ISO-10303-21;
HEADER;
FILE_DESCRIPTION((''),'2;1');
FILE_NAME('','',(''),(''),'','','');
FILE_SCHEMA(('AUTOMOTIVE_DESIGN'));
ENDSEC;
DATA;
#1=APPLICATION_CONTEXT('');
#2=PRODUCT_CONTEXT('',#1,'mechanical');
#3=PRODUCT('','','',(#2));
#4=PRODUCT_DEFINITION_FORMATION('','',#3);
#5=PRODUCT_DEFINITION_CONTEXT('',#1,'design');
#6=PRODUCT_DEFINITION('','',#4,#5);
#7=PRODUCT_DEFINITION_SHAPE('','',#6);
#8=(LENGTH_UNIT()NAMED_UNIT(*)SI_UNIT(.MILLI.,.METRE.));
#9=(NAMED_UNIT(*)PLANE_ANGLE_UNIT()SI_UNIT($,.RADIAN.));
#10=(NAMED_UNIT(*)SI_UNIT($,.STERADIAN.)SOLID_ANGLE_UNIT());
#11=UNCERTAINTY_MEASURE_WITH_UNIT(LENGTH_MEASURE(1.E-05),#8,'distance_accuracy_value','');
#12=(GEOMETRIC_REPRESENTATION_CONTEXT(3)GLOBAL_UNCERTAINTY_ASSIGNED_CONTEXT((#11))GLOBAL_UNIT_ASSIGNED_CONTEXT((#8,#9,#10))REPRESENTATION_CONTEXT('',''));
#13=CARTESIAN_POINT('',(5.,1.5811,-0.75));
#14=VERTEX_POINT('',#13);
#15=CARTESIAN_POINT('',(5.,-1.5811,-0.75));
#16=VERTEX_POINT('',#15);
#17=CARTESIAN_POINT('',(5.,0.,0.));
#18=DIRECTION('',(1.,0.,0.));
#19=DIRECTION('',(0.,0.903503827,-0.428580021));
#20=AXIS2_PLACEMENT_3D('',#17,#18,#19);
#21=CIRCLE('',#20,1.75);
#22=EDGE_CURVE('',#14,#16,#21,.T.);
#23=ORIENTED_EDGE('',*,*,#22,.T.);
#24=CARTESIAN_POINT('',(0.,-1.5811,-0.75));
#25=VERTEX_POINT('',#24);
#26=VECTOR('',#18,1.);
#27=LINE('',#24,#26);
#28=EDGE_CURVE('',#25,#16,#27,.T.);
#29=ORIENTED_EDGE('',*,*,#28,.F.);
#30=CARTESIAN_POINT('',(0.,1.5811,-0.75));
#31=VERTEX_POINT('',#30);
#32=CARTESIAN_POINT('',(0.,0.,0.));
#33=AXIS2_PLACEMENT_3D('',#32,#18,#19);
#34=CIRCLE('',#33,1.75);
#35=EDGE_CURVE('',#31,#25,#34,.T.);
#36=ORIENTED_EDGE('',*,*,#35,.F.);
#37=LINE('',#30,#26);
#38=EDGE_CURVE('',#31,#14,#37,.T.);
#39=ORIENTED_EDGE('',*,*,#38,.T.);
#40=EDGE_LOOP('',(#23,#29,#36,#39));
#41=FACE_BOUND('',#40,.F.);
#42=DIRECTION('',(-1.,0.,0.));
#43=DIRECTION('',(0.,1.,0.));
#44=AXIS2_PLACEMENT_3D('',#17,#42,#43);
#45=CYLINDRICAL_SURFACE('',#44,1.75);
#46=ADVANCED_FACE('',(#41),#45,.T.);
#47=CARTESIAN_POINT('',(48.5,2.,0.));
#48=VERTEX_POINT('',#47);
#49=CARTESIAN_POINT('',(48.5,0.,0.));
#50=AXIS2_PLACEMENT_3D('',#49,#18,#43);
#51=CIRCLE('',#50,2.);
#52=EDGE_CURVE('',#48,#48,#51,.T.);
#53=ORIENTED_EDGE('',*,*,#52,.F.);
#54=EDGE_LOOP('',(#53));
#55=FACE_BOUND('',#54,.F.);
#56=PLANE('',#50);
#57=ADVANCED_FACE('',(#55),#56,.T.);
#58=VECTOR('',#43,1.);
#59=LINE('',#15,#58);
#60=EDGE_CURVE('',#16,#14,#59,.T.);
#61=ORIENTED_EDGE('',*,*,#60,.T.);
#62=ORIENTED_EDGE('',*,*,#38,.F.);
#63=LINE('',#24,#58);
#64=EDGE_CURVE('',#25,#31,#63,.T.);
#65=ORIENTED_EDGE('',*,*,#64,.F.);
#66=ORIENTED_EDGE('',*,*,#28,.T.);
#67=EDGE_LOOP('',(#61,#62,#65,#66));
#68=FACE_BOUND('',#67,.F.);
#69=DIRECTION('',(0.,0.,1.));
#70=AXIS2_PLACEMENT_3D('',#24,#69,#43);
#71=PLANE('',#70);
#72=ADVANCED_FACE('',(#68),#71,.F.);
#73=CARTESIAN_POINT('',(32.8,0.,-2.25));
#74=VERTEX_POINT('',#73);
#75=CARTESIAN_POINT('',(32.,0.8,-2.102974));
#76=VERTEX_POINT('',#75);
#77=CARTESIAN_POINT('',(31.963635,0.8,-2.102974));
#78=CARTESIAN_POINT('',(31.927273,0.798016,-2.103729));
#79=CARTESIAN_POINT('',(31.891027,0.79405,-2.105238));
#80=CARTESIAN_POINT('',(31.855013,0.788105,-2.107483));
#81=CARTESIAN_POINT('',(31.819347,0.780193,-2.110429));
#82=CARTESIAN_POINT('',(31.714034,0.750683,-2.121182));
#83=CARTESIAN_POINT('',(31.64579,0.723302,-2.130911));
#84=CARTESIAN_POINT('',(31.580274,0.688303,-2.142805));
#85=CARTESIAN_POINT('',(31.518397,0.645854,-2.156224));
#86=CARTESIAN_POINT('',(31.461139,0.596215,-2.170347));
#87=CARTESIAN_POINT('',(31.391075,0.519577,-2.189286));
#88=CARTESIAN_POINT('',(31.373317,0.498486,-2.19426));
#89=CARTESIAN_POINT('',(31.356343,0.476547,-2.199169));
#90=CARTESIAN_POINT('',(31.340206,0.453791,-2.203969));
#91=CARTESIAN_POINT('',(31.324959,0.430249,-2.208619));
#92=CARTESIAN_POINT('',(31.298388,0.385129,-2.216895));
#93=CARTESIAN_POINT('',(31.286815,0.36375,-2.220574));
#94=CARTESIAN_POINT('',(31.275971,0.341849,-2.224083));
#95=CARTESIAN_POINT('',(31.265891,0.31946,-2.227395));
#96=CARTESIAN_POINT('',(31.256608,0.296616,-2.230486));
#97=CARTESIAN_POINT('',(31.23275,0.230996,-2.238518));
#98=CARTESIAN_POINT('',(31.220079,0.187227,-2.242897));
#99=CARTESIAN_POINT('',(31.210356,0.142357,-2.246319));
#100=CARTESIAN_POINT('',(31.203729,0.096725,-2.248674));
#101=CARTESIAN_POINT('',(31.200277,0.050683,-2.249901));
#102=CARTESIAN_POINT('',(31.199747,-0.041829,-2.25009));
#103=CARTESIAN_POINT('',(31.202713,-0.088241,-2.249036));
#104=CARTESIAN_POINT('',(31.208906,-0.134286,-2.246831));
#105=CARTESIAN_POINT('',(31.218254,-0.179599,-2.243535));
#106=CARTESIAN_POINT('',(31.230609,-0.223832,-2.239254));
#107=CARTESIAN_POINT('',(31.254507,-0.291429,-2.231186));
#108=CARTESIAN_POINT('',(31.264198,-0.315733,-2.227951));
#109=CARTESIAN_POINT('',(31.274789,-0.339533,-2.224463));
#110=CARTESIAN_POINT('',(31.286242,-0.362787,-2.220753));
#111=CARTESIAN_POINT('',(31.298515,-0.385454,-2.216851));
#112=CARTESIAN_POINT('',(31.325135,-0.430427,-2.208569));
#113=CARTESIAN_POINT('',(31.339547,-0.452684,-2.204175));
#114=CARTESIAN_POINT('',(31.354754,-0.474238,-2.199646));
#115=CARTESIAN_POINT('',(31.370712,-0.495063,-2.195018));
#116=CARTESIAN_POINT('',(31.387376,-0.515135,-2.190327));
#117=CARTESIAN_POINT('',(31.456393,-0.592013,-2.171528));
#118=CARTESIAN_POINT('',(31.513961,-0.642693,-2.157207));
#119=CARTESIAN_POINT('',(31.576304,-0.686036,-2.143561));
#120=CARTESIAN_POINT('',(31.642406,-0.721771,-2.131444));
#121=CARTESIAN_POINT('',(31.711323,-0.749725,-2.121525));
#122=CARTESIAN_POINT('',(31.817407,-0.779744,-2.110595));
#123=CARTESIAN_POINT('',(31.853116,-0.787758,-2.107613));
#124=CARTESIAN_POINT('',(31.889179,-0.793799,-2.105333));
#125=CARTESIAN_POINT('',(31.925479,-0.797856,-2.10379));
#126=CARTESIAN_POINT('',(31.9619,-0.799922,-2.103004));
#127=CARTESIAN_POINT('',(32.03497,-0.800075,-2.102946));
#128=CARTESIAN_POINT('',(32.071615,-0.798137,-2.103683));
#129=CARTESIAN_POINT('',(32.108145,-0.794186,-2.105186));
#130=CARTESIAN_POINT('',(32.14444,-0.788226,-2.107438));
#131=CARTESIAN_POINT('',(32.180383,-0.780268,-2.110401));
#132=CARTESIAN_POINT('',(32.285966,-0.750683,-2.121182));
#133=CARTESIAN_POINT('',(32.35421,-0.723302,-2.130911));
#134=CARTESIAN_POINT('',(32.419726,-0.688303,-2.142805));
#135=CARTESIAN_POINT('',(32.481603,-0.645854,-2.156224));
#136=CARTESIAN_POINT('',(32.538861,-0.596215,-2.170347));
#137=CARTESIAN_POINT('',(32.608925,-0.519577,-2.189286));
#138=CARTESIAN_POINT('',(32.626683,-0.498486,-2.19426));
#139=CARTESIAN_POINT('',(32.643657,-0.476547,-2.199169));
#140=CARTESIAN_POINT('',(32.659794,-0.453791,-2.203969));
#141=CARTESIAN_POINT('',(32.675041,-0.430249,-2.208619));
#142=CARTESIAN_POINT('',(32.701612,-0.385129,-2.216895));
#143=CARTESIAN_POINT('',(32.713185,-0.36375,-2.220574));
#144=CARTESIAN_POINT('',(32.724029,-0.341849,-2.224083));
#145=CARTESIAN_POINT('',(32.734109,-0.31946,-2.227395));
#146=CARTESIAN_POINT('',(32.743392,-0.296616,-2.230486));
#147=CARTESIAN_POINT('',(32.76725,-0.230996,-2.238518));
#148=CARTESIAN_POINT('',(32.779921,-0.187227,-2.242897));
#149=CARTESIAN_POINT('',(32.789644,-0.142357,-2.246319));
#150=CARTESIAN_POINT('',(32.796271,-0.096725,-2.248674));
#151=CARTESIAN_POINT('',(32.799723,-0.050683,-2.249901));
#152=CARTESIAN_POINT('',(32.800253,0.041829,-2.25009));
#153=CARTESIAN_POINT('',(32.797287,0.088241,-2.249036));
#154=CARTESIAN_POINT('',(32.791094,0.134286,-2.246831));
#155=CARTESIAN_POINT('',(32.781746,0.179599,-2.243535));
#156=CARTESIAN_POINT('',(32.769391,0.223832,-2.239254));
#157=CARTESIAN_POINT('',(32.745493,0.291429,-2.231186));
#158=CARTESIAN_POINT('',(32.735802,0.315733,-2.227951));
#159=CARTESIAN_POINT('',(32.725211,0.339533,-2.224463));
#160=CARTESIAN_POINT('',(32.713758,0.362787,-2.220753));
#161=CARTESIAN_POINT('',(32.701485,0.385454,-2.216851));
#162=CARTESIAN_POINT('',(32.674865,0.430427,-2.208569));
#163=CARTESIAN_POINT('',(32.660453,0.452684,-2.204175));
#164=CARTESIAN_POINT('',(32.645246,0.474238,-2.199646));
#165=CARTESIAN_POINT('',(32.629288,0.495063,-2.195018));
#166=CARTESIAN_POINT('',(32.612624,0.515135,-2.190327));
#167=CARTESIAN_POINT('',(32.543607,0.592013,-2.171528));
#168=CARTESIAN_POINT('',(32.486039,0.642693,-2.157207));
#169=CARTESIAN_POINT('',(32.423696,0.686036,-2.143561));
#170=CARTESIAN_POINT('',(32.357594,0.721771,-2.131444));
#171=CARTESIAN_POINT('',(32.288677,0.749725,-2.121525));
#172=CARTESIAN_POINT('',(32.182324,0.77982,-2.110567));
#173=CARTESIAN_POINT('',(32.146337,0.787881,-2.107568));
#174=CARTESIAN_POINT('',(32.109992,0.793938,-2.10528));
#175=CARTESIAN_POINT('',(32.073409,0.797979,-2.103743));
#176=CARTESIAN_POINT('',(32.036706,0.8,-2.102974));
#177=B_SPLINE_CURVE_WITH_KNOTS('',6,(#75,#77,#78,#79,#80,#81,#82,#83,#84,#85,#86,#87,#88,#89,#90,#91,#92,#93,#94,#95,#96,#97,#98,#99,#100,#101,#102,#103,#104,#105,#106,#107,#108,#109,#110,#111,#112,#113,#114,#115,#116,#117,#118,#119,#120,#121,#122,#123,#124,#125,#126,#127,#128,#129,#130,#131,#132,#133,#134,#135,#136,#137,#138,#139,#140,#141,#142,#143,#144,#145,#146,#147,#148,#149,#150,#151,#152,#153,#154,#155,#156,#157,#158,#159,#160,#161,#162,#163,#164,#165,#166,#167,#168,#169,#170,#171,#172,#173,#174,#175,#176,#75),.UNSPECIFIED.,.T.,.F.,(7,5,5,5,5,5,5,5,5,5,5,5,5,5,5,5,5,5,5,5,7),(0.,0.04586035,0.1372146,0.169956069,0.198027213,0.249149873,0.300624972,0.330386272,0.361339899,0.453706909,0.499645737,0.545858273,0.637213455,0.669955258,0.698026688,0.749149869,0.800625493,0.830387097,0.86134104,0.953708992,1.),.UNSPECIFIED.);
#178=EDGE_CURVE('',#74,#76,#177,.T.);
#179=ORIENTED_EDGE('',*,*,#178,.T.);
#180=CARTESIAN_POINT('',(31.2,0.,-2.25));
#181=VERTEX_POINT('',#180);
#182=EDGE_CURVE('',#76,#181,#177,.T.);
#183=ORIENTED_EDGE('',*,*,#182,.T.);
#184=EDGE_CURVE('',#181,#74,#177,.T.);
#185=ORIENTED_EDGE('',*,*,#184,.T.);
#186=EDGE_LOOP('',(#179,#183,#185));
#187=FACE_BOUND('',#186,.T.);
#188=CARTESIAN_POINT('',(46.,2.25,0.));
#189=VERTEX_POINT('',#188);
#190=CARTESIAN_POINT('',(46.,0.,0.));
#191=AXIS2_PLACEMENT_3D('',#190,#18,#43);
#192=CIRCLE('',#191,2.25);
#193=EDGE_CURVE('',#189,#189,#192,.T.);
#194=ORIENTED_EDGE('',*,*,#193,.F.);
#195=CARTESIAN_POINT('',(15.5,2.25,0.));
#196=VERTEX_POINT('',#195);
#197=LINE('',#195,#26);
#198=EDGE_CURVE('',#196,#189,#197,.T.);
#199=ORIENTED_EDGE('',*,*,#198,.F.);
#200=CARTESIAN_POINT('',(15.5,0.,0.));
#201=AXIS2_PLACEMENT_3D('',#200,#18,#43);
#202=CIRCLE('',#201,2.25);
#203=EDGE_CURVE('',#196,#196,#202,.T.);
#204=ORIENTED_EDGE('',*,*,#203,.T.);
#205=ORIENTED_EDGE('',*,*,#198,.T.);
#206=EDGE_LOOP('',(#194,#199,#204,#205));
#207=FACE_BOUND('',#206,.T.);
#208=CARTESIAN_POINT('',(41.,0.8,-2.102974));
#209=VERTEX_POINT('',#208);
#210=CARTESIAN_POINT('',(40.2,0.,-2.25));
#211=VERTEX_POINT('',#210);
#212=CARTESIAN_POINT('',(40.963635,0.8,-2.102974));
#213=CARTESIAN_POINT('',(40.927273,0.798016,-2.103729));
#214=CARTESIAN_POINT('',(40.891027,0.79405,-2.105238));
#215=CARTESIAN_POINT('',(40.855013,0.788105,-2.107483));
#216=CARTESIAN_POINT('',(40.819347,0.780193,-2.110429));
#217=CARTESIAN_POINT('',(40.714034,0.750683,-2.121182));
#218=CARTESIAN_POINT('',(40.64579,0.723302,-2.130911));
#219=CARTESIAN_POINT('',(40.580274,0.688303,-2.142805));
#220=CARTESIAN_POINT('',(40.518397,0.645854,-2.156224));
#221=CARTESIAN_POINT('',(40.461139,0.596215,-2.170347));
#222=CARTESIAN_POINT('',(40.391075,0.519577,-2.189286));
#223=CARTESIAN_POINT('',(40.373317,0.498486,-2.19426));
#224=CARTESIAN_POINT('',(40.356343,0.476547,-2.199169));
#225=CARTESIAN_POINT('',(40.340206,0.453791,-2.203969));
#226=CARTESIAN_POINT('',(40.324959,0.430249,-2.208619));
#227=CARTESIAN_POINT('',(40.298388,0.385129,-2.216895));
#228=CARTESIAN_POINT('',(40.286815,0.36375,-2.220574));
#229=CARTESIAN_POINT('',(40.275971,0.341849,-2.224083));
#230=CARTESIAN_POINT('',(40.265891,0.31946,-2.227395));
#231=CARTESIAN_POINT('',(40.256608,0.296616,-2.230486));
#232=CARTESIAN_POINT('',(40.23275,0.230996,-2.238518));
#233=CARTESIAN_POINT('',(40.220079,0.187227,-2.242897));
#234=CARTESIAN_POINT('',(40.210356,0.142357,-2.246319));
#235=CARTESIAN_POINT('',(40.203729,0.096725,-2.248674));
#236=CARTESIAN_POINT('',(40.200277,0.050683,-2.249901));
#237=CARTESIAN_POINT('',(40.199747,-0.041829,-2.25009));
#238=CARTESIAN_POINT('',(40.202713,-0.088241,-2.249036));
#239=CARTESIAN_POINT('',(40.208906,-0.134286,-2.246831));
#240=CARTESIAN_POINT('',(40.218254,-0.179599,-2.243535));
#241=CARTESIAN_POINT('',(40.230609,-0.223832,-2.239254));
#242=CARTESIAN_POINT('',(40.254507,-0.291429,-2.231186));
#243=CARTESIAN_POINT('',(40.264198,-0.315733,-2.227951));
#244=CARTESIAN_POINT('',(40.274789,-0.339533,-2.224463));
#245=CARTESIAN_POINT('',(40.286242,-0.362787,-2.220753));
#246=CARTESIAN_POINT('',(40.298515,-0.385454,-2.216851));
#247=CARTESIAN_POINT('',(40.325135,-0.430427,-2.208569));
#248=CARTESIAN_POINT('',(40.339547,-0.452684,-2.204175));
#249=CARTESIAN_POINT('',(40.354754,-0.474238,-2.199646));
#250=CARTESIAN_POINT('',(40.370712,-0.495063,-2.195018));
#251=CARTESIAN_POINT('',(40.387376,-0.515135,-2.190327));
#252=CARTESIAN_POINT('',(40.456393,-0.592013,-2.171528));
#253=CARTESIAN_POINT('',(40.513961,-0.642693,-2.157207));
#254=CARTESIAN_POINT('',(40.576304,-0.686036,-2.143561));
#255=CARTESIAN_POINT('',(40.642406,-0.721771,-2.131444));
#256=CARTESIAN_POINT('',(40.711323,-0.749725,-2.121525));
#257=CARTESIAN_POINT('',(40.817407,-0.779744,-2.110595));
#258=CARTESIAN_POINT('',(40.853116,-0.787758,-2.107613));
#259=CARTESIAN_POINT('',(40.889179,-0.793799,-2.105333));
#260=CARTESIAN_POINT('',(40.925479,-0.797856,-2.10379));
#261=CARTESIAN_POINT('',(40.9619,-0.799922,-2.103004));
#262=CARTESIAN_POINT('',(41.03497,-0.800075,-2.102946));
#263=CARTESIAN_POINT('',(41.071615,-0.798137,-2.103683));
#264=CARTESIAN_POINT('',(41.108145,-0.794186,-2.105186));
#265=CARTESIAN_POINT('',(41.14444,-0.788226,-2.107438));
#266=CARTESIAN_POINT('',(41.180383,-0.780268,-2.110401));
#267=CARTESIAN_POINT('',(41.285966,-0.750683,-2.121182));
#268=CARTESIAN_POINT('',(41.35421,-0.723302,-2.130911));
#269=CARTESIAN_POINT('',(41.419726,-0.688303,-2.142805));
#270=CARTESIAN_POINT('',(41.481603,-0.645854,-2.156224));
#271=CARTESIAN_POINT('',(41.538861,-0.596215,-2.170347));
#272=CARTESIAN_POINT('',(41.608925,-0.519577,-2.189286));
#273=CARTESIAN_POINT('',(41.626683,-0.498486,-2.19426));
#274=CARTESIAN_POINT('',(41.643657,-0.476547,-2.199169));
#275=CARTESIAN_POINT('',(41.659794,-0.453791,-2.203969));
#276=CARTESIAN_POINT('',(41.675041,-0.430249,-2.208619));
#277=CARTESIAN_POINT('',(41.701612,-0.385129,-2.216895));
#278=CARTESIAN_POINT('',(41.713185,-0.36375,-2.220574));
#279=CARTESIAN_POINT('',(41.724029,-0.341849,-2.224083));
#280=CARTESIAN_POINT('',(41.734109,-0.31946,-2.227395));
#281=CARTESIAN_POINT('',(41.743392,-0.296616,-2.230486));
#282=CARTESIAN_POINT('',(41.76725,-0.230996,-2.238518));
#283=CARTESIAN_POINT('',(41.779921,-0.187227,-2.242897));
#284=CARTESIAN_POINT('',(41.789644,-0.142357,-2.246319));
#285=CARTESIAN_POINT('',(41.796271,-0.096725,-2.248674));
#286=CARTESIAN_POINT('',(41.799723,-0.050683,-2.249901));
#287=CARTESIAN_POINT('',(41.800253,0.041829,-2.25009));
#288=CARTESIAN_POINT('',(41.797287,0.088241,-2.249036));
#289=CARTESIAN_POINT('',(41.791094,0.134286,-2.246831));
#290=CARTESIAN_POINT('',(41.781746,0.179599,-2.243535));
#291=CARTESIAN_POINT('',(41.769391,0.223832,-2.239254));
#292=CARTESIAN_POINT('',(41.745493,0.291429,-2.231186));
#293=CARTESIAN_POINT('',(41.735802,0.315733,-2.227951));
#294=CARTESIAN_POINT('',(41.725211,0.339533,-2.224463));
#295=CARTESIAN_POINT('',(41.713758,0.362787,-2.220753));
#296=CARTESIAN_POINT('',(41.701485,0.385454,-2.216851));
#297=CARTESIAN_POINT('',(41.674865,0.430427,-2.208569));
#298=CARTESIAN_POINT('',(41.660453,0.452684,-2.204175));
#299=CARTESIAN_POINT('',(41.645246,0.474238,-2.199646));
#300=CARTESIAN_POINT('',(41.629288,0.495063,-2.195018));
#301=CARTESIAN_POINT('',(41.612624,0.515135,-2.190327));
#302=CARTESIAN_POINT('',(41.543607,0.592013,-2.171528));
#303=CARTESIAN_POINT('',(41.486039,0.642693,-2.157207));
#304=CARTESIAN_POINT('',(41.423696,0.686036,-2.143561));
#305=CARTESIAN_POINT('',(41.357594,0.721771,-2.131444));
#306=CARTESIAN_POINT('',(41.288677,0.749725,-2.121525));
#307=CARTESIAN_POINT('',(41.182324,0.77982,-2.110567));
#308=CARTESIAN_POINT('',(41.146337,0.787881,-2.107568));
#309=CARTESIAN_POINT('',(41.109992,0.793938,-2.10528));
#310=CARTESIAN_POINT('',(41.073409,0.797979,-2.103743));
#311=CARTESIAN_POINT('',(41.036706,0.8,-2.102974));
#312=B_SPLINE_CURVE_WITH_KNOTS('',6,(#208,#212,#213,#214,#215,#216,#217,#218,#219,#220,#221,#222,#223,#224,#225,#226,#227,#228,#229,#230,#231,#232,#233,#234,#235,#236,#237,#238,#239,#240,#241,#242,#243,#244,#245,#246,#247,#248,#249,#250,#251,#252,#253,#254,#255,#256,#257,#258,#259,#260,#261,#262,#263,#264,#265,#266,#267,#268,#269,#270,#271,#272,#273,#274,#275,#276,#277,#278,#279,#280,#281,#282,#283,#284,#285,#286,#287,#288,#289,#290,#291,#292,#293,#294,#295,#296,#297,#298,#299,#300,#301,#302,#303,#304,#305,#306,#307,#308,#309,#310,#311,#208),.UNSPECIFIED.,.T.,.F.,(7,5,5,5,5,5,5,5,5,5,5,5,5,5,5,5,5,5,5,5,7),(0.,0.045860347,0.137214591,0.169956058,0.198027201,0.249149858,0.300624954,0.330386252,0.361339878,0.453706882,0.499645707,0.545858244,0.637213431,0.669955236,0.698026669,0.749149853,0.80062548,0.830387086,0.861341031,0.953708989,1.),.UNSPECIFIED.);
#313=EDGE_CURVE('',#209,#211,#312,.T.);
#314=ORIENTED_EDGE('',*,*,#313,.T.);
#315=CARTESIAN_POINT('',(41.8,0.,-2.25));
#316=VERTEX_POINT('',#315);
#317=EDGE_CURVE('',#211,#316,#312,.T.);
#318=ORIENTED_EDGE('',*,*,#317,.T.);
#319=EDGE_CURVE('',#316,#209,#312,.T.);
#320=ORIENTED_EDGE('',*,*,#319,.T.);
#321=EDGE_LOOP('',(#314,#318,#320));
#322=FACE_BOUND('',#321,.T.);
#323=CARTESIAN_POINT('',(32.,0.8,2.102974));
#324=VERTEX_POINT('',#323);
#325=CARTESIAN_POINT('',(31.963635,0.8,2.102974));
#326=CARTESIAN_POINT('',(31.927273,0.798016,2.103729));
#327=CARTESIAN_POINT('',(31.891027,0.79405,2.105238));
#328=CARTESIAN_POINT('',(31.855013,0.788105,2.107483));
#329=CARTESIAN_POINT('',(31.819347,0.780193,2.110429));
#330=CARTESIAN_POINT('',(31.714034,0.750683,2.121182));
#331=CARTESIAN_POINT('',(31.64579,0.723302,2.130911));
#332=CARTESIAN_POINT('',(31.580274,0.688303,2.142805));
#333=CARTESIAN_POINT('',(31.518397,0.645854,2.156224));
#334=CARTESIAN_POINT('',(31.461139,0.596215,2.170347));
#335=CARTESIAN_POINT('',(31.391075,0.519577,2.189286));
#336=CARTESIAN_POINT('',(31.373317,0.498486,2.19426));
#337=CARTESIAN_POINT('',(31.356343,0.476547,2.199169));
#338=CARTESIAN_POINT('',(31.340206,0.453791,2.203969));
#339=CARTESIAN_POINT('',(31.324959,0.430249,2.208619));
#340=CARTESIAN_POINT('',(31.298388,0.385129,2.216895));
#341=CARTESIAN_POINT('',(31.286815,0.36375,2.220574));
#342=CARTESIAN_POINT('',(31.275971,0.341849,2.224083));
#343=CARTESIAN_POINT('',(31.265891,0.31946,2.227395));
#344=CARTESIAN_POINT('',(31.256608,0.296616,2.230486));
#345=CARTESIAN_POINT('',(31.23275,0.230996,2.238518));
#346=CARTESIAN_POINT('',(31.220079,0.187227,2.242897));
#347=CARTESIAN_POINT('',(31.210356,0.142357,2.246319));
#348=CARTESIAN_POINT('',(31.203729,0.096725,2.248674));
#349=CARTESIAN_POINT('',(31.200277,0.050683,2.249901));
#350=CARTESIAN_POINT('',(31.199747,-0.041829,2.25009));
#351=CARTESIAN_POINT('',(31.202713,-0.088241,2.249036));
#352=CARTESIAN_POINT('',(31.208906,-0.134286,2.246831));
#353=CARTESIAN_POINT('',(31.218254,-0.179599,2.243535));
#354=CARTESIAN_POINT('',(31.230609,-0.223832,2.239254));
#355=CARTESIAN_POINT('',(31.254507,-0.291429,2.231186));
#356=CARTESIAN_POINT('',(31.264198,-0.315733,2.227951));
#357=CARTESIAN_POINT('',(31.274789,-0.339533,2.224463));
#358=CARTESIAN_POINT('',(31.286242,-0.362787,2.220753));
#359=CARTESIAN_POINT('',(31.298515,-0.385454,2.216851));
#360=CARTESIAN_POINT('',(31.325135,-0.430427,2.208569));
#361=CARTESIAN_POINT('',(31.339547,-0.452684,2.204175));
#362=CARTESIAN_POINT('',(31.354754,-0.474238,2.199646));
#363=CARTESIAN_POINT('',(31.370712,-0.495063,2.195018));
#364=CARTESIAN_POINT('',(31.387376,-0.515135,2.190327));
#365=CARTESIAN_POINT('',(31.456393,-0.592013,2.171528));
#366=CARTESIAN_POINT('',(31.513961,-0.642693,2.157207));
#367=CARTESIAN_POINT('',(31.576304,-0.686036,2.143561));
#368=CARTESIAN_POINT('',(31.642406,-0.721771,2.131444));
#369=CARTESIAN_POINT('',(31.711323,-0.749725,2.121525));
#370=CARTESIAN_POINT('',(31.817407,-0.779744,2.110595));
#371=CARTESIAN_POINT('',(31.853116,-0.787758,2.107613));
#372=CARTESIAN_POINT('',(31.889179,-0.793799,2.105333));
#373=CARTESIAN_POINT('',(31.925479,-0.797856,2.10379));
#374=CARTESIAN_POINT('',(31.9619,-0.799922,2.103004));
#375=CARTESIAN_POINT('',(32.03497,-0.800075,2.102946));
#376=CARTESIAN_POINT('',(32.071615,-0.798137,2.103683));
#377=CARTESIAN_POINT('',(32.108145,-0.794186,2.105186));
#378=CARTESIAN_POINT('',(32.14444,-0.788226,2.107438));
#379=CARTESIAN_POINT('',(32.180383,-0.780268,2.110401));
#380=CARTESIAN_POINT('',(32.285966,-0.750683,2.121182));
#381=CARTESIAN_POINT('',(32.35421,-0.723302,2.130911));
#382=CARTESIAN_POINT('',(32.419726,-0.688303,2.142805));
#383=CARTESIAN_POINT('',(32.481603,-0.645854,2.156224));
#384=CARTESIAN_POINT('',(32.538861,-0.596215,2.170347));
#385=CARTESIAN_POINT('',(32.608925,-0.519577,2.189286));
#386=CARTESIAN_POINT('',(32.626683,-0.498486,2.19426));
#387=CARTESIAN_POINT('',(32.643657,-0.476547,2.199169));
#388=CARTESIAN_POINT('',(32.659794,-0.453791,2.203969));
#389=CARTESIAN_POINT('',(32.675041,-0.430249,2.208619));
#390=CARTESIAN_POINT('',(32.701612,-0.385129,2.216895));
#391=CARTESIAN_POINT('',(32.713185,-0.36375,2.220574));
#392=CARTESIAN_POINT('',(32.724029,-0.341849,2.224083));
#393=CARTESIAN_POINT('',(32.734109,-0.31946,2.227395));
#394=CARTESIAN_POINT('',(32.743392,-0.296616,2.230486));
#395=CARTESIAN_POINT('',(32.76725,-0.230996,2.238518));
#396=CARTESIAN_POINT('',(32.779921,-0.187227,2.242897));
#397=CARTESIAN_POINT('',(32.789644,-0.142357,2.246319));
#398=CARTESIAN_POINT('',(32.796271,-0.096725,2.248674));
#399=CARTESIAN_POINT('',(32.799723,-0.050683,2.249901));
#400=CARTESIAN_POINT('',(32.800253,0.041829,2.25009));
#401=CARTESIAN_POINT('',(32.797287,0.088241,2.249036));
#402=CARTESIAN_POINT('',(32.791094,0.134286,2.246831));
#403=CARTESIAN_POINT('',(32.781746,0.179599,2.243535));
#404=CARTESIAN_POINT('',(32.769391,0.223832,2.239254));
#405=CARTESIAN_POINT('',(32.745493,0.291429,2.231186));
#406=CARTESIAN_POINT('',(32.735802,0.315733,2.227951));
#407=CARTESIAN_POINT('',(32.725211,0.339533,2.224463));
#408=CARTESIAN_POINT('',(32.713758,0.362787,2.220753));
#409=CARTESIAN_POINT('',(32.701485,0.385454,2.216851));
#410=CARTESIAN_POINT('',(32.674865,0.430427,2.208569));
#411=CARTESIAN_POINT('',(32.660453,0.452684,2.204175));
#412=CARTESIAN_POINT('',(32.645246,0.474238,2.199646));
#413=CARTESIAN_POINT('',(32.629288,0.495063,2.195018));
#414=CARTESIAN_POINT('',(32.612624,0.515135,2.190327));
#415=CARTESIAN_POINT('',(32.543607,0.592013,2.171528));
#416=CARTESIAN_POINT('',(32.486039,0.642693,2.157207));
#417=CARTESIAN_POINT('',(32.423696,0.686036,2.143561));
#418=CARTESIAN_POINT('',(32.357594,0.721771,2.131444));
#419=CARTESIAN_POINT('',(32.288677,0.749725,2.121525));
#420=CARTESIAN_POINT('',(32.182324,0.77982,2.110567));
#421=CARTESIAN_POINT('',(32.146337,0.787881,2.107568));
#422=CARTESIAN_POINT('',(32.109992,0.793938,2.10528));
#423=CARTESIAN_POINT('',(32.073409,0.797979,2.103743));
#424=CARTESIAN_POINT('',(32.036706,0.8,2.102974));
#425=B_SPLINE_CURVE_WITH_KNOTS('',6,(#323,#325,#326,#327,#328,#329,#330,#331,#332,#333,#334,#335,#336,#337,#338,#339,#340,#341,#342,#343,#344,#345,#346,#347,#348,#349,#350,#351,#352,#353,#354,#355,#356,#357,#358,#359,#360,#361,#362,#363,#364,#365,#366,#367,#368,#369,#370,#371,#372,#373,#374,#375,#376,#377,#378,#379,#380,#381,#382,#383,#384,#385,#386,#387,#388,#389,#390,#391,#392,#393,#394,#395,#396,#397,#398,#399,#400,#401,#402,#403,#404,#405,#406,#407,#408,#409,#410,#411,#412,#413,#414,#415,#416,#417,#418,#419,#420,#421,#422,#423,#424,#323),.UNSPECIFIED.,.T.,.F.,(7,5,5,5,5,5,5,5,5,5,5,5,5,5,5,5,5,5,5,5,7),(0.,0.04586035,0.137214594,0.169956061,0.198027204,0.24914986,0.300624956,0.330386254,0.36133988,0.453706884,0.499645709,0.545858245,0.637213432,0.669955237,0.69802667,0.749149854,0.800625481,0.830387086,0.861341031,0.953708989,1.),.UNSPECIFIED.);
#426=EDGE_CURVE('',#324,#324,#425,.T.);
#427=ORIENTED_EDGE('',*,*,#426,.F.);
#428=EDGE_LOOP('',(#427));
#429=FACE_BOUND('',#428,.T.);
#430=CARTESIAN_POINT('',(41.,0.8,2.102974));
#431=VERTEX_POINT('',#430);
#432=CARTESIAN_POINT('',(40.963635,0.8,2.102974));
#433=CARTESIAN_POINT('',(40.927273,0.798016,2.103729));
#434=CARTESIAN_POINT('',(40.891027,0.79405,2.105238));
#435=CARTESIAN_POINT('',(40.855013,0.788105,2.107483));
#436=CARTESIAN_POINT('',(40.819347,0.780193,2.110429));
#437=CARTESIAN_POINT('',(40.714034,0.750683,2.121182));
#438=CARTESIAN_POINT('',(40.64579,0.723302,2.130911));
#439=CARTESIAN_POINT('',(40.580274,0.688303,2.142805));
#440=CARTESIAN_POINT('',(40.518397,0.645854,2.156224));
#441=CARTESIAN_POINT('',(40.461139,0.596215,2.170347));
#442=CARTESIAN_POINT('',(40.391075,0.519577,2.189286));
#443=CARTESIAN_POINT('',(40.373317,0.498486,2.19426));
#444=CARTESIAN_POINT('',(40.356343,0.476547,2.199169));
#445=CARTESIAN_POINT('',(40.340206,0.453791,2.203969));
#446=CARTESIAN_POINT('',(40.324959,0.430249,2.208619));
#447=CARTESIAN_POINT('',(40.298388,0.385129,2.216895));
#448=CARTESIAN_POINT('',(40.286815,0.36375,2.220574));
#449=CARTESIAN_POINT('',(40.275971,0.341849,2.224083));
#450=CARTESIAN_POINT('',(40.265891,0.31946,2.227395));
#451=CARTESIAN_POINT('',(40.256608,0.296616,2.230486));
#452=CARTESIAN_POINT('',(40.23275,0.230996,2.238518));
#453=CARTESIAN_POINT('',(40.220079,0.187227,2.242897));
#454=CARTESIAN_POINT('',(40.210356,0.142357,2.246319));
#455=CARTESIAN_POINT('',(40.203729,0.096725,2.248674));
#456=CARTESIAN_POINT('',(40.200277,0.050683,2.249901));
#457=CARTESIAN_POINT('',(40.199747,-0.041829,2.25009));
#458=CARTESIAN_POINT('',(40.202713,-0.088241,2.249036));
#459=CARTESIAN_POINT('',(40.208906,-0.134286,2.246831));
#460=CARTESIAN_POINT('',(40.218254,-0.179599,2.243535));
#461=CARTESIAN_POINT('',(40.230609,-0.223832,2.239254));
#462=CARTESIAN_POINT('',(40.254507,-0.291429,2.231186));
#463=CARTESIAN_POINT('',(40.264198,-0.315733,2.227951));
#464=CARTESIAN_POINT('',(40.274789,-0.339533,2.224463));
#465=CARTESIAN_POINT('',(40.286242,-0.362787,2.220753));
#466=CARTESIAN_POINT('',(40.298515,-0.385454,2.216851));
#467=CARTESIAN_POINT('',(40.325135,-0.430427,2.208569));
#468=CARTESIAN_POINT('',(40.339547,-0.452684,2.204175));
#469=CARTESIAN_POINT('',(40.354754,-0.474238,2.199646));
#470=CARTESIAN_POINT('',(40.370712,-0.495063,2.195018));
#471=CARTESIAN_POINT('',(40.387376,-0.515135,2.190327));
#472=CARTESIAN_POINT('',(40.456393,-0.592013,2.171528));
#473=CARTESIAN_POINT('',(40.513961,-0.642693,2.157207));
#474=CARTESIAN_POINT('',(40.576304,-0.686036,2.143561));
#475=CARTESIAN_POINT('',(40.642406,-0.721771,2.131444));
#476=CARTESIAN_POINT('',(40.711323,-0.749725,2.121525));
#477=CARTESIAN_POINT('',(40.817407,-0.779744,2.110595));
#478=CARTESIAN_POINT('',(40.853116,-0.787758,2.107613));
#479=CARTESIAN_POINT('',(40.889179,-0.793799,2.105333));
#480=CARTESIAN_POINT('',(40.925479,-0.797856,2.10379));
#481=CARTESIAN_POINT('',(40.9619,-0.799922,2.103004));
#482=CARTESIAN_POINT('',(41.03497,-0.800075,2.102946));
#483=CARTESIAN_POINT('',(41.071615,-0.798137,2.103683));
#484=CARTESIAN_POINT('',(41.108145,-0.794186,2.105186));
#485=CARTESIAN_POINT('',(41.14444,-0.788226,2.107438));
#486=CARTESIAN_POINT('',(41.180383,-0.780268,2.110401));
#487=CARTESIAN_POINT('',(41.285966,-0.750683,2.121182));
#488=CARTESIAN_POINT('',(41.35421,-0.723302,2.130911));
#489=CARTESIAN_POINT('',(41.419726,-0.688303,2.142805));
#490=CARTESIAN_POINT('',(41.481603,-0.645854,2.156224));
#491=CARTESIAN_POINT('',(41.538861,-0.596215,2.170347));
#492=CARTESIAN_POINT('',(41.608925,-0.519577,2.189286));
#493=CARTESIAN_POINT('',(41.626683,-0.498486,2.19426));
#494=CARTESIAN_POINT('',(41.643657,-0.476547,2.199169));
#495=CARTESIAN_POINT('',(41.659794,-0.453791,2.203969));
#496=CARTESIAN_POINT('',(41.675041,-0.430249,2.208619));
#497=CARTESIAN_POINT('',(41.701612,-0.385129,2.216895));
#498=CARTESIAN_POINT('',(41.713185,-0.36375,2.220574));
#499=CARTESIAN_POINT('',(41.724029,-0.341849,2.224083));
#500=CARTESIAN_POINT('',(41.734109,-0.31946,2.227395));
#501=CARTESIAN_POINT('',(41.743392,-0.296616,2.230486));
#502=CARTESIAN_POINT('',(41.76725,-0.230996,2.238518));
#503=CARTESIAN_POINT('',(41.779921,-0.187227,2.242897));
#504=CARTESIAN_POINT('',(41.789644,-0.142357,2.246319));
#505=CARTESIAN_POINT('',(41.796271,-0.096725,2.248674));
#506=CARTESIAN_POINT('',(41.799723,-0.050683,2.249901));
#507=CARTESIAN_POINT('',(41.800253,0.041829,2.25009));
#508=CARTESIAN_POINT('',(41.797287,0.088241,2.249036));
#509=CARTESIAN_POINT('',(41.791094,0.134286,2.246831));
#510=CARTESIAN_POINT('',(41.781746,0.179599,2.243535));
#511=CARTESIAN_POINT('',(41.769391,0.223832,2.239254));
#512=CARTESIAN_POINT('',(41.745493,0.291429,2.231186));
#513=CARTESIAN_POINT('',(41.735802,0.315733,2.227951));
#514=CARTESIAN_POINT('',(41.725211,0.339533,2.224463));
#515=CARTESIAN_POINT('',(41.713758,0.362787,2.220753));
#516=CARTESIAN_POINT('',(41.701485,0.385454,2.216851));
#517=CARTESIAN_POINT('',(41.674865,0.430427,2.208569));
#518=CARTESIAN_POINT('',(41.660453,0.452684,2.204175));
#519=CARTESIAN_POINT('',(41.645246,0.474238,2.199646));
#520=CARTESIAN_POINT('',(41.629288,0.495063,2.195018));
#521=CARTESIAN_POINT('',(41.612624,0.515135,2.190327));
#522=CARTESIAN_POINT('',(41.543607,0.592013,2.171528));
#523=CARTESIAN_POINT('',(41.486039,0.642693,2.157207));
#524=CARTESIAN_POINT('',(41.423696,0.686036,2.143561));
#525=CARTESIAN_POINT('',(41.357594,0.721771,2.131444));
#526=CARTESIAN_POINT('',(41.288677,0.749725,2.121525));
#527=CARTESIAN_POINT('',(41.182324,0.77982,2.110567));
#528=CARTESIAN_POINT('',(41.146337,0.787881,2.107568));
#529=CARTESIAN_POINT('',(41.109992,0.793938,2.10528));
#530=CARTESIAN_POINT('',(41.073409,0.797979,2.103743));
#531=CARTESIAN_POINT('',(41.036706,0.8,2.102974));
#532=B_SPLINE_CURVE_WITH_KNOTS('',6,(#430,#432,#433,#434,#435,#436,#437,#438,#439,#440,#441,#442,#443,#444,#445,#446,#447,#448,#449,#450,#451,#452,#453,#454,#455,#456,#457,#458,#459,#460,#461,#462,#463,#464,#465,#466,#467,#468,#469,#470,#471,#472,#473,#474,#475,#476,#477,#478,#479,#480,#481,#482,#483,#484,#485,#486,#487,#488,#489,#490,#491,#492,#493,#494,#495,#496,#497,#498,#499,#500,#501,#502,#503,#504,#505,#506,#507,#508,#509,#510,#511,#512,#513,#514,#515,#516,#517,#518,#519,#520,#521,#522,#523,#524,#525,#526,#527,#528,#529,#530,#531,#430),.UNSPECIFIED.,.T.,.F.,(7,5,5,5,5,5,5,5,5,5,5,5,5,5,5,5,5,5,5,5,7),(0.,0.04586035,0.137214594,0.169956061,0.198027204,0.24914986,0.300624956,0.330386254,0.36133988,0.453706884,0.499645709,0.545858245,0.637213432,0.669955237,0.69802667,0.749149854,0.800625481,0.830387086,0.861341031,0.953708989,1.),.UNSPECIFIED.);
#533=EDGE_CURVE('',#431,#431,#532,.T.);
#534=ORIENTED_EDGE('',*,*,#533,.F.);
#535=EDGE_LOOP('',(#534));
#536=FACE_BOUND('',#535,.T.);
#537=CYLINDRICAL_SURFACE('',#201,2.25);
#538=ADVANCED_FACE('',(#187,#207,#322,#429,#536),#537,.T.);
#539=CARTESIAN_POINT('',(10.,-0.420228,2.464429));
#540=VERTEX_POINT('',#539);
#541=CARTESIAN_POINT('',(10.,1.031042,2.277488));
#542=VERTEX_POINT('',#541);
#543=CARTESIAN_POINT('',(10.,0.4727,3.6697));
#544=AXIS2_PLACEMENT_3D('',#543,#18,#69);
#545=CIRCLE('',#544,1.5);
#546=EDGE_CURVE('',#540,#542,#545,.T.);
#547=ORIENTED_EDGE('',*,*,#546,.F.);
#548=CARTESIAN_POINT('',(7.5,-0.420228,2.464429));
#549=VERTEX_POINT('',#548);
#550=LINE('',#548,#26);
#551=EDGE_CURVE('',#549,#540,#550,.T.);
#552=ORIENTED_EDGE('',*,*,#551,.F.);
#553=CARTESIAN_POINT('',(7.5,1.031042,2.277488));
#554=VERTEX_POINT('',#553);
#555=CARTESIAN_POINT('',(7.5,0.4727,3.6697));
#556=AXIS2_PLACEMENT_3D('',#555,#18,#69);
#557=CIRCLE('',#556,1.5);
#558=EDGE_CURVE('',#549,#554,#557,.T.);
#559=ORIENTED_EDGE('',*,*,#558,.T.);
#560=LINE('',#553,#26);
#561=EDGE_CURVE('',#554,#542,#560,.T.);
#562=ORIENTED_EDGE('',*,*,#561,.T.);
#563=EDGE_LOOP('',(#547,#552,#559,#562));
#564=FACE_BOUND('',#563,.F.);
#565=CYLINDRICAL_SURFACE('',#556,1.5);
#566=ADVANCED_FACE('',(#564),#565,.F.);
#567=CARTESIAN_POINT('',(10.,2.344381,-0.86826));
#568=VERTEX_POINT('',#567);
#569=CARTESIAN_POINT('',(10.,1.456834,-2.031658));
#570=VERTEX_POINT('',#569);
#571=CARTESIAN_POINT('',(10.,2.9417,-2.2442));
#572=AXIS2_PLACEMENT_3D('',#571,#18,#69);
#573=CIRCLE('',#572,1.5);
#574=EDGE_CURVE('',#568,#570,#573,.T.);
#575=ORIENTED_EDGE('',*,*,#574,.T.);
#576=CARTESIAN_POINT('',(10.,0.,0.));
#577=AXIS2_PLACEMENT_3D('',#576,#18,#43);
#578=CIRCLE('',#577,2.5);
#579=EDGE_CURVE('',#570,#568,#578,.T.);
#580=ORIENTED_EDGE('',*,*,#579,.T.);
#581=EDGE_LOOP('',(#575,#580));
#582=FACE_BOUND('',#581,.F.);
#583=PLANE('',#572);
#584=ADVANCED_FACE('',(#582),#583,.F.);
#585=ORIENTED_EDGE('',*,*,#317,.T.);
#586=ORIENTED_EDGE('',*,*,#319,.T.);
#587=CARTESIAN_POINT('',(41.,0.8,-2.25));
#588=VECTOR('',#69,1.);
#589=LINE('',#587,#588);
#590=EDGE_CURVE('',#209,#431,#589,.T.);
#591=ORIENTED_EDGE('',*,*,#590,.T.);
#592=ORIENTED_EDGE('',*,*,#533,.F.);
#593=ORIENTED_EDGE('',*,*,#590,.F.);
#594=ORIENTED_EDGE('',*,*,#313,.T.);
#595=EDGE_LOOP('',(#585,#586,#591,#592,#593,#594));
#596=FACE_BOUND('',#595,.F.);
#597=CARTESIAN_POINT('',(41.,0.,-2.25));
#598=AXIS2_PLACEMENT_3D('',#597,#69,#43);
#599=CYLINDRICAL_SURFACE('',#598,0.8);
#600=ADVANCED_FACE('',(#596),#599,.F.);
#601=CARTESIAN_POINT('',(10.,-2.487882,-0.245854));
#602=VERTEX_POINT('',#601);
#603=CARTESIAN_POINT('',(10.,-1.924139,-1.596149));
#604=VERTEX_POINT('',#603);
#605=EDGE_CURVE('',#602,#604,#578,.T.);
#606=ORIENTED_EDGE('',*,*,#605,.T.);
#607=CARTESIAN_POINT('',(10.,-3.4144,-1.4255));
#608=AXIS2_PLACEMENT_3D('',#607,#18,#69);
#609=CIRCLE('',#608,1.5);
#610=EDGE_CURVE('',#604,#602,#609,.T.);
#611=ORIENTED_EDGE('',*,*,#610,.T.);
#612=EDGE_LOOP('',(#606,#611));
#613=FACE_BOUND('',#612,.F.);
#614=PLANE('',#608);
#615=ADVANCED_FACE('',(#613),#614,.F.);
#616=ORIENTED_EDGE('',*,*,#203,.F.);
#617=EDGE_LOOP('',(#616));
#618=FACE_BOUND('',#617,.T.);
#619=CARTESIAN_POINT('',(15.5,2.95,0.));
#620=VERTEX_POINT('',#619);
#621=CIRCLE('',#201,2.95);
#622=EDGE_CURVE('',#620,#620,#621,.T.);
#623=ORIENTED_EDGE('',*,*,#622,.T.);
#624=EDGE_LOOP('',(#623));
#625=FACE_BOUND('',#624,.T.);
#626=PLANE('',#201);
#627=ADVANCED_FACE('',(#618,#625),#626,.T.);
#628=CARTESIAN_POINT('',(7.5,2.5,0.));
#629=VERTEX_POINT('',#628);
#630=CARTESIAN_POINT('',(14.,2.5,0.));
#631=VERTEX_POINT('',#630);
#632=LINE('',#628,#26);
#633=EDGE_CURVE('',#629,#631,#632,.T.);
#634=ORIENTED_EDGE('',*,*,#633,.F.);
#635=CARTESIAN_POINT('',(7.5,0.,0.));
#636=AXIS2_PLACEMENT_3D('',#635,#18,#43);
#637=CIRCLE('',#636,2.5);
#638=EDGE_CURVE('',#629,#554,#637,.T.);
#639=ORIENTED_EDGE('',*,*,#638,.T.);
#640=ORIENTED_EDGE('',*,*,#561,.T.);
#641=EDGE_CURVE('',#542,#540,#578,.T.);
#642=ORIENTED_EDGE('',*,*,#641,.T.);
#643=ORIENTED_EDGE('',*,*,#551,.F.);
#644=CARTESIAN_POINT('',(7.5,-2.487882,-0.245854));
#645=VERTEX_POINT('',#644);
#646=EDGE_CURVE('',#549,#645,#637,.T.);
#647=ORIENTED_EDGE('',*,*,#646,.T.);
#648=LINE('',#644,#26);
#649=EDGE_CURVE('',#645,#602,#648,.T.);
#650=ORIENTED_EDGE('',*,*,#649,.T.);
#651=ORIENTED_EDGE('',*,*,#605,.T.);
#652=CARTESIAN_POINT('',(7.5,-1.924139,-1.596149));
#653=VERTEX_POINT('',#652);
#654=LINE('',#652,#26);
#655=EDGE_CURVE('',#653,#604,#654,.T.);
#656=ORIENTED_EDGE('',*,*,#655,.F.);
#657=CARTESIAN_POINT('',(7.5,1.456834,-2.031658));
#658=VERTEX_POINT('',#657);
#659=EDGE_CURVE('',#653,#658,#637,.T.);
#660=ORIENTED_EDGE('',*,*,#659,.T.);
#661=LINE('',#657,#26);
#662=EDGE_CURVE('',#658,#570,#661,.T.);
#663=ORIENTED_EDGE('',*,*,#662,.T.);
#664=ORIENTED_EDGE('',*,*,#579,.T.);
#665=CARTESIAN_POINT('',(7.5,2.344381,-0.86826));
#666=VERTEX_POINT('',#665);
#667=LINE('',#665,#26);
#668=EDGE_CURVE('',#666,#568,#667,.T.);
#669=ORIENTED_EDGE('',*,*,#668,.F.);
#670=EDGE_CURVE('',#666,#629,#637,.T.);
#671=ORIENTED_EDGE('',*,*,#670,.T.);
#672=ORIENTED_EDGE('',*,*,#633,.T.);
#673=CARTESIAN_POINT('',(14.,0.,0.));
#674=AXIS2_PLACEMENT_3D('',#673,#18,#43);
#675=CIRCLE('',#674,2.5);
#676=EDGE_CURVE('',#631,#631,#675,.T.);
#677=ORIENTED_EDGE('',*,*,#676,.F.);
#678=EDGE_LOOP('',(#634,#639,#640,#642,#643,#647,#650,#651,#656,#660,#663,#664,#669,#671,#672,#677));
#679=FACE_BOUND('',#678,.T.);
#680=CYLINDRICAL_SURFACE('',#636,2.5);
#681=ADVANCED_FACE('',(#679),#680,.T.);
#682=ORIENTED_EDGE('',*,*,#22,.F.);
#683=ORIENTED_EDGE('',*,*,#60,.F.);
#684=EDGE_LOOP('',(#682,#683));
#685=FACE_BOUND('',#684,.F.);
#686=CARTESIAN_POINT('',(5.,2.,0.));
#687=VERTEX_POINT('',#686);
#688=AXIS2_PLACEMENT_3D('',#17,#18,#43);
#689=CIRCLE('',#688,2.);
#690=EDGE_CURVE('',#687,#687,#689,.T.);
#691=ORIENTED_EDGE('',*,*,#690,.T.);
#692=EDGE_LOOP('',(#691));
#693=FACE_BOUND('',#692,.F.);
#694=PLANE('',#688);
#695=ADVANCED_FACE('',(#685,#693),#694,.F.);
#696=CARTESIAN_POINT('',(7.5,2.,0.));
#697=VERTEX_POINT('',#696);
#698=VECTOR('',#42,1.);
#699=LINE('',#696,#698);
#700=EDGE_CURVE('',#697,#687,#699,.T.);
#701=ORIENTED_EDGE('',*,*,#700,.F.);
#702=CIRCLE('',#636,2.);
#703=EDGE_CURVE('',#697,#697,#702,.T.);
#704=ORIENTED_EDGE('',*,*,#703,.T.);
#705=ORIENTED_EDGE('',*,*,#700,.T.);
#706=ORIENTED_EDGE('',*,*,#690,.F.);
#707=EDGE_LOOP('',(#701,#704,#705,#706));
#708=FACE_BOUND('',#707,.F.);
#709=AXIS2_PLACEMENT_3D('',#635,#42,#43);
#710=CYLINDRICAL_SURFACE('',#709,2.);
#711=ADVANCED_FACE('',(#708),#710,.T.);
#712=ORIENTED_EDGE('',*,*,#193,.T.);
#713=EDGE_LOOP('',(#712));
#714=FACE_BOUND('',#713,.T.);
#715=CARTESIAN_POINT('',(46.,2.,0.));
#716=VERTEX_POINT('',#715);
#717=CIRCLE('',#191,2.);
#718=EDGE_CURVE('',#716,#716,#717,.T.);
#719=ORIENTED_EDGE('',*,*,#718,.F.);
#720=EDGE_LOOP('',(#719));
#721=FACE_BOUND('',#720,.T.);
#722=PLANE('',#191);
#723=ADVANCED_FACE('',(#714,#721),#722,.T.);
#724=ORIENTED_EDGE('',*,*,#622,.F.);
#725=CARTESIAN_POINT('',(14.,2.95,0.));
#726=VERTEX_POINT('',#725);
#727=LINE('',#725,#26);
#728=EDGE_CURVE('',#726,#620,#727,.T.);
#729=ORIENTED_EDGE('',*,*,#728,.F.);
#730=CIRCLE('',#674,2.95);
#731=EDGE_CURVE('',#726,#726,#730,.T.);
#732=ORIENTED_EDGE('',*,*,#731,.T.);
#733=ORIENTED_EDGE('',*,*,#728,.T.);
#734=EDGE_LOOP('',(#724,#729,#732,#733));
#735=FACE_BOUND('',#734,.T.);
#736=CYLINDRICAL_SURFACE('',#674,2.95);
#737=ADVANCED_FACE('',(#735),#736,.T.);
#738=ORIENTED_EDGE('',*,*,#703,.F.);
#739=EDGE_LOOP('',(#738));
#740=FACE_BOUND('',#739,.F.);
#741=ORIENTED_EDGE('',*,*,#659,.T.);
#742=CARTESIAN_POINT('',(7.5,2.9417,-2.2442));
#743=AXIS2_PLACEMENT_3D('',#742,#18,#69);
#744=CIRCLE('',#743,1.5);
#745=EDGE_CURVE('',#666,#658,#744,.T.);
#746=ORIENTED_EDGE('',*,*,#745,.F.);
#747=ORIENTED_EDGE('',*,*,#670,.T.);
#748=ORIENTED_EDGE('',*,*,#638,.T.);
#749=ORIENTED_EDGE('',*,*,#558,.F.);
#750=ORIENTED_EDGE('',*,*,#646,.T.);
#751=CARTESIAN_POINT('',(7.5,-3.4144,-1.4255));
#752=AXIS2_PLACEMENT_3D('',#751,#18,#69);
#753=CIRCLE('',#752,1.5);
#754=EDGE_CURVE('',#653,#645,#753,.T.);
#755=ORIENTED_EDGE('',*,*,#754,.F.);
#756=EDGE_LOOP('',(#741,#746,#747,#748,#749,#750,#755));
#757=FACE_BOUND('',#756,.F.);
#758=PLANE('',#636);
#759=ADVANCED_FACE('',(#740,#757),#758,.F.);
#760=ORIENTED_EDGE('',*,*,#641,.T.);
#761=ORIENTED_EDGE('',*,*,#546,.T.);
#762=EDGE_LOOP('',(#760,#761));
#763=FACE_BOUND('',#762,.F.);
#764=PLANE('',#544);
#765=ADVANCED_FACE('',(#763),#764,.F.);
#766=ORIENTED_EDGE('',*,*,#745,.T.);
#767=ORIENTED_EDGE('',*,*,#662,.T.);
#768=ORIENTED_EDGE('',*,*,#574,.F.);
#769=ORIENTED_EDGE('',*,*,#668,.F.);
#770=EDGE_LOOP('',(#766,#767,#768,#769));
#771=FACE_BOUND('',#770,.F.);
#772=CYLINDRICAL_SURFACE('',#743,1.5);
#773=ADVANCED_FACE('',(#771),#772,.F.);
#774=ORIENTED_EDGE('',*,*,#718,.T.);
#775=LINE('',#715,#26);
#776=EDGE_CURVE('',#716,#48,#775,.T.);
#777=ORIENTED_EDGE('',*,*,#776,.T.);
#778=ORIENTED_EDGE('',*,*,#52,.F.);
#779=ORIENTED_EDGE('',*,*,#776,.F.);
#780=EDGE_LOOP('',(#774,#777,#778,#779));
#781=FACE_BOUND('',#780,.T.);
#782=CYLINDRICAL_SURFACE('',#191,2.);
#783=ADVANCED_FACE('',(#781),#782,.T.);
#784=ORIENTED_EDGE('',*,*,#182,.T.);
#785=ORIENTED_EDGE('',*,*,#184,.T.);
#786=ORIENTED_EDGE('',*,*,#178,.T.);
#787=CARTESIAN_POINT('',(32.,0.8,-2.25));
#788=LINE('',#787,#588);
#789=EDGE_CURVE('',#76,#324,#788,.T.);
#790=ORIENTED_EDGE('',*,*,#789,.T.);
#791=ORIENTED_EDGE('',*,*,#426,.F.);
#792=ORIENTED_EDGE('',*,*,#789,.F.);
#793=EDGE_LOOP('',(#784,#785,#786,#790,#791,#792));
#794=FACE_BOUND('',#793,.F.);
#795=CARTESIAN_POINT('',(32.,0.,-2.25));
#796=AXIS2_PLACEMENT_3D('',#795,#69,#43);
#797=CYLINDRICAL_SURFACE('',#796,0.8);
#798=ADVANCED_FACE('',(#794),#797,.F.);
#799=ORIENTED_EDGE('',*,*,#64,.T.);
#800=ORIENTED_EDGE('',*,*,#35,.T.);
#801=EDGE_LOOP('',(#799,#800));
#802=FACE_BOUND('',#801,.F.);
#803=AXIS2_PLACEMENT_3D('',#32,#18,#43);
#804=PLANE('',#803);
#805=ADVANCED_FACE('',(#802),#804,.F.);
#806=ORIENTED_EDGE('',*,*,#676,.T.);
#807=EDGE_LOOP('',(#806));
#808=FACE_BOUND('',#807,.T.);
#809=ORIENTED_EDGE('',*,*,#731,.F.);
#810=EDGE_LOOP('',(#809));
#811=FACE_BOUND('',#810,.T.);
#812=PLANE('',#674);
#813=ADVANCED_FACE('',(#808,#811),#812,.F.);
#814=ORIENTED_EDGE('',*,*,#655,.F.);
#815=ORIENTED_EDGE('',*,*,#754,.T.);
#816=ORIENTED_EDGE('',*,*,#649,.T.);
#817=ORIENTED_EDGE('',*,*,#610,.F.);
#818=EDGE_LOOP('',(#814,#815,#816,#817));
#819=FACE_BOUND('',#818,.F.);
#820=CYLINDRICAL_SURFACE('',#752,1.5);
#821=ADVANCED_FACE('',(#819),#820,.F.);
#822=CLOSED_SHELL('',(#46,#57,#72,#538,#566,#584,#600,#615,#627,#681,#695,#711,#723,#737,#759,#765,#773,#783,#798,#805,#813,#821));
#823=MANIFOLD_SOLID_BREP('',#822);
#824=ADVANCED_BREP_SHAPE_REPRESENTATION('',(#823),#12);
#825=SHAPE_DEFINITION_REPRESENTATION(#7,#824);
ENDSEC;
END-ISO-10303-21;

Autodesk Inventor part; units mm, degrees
ref_plane "YZ Plane" through (0, 0, 0) normal (1, 0, 0) x (0, 1, 0)
ref_plane "XZ Plane" through (0, 0, 0) normal (0, 1, 0) x (-1, 0, 0)
sketch "Sketch1" plane through (0, 0, 0) normal (0, 0, 1) x (1, 0, 0)
  line L0 (7.5, 2.5) -> (14, 2.5)
  line L1 (15.5, 2.25) -> (46, 2.25)
  line L2 (46, 2.25) -> (46, 2)
  line L3 (46, 2) -> (48.5, 2)
  line L4 (7.5, 2.5) -> (7.5, 2)
  line L5 (7.5, 2) -> (5, 2)
  line L6 (0, 0) -> (48.5, 0)
  line L7 (48.5, 0) -> (48.5, 2)
  line L8 (14, 2.5) -> (14, 2.95)
  line L9 (14, 2.95) -> (15.5, 2.95)
  line L10 (15.5, 2.95) -> (15.5, 2.25)
  line L11 (5, 2) -> (5, 1.75)
  line L12 (5, 1.75) -> (0, 1.75)
  line L13 (0, 1.75) -> (0, 0)
  dimension "d37" = 3.7
  dimension "d45" = 7.34
  dimension "d4" = 2.5
  dimension "d5" = 4.5
  dimension "d6" = 5
  dimension "d7" = 4
  dimension "d8" = 4
  dimension "d12" = 32
  dimension "d13" = 6.5
  dimension "d14" = 1.5
  dimension "d15" = 5.9
  dimension "d25" = 2.5
  dimension "d26" = 5
  dimension "d27" = 3.5
revolve "Revolution1" add sketch "Sketch1" angle 360 about axis through (0, 0, 0) along (1, 0, 0)
ref_plane "Work Plane1" through (30.75, 0, -2.25) normal (0, 0, 1) x (1, 0, 0)
sketch "Sketch2" plane through (30.75, 0, -2.25) normal (0, 0, 1) x (1, 0, 0)
  line L0 (-16.75, -2.95) -> (-16.75, 2.95) projected
  line L1 (-30.75, 0) -> (16.721, 0) construction
  point P0 (1.25, 0)
  point P1 (10.25, 0)
  dimension "d16" = 18
  dimension "d17" = 27
hole "Hole1" at (32, 0, -2.25) at (41, 0, -2.25) direction (0, 0, 1) diameter 1.6 end through all
sketch "Sketch4" plane through (14, 0, 0) normal (-1, 0, 0) x (0, 0, 1)
  line L0 (0.75, -2.95) -> (-0.75, -2.95)
  line L1 (-0.75, -2.95) -> (-0.75, -10)
  line L2 (-0.75, -10) -> (0.75, -10)
  line L3 (0.75, -10) -> (0.75, -2.95)
  line L4 (0, 0) -> (0, -9.1569) construction
  dimension "d28" = 1.5
  dimension "d29" = 2.95
  dimension "d30" = 10
extrude "Extrusion1" [suppressed]
pattern_circular "Circular Pattern1" [suppressed]
sketch "Sketch5" plane through (7.5, 0, 0) normal (-1, 0, 0) x (0, 0, 1)
  line L0 (1.4255, 3.4144) -> (3.6697, 0.4727) construction
  line L1 (3.6697, 0.4727) -> (2.2442, -2.9417) construction
  line L2 (2.2442, -2.9417) -> (-1.4255, -3.4144) construction
  line L3 (-1.4255, -3.4144) -> (-3.6697, -0.4727) construction
  line L4 (-3.6697, -0.4727) -> (-2.2442, 2.9417) construction
  line L5 (-2.2442, 2.9417) -> (1.4255, 3.4144) construction
  line L6 (0, 0) -> (11.1686, 0) construction
  dimension "d37" = 3.7
  dimension "d45" = 7.34
hole "Hole2" at (7.5, -3.4144, -1.4255) at (7.5, 0.4727, 3.6697) at (7.5, 2.9417, -2.2442) direction (1, 0, 0) diameter 3 depth 2.5
sketch "Sketch6" plane through (0, 0, 0) normal (-1, 0, 0) x (0, 0, 1)
  circle A0 centre (0, 0) radius 1.75 projected
  line L0 (-0.75, -1.5811) -> (-0.75, 1.5811)
  dimension "d46" = 0.75
extrude "Extrusion2" cut sketch "Sketch6" against normal up to surface (5 mm away) contours L0 A0 picked at (-1.0833, 0)
properties part number "thumb_03 CMC shaft" material "Stainless Steel"
